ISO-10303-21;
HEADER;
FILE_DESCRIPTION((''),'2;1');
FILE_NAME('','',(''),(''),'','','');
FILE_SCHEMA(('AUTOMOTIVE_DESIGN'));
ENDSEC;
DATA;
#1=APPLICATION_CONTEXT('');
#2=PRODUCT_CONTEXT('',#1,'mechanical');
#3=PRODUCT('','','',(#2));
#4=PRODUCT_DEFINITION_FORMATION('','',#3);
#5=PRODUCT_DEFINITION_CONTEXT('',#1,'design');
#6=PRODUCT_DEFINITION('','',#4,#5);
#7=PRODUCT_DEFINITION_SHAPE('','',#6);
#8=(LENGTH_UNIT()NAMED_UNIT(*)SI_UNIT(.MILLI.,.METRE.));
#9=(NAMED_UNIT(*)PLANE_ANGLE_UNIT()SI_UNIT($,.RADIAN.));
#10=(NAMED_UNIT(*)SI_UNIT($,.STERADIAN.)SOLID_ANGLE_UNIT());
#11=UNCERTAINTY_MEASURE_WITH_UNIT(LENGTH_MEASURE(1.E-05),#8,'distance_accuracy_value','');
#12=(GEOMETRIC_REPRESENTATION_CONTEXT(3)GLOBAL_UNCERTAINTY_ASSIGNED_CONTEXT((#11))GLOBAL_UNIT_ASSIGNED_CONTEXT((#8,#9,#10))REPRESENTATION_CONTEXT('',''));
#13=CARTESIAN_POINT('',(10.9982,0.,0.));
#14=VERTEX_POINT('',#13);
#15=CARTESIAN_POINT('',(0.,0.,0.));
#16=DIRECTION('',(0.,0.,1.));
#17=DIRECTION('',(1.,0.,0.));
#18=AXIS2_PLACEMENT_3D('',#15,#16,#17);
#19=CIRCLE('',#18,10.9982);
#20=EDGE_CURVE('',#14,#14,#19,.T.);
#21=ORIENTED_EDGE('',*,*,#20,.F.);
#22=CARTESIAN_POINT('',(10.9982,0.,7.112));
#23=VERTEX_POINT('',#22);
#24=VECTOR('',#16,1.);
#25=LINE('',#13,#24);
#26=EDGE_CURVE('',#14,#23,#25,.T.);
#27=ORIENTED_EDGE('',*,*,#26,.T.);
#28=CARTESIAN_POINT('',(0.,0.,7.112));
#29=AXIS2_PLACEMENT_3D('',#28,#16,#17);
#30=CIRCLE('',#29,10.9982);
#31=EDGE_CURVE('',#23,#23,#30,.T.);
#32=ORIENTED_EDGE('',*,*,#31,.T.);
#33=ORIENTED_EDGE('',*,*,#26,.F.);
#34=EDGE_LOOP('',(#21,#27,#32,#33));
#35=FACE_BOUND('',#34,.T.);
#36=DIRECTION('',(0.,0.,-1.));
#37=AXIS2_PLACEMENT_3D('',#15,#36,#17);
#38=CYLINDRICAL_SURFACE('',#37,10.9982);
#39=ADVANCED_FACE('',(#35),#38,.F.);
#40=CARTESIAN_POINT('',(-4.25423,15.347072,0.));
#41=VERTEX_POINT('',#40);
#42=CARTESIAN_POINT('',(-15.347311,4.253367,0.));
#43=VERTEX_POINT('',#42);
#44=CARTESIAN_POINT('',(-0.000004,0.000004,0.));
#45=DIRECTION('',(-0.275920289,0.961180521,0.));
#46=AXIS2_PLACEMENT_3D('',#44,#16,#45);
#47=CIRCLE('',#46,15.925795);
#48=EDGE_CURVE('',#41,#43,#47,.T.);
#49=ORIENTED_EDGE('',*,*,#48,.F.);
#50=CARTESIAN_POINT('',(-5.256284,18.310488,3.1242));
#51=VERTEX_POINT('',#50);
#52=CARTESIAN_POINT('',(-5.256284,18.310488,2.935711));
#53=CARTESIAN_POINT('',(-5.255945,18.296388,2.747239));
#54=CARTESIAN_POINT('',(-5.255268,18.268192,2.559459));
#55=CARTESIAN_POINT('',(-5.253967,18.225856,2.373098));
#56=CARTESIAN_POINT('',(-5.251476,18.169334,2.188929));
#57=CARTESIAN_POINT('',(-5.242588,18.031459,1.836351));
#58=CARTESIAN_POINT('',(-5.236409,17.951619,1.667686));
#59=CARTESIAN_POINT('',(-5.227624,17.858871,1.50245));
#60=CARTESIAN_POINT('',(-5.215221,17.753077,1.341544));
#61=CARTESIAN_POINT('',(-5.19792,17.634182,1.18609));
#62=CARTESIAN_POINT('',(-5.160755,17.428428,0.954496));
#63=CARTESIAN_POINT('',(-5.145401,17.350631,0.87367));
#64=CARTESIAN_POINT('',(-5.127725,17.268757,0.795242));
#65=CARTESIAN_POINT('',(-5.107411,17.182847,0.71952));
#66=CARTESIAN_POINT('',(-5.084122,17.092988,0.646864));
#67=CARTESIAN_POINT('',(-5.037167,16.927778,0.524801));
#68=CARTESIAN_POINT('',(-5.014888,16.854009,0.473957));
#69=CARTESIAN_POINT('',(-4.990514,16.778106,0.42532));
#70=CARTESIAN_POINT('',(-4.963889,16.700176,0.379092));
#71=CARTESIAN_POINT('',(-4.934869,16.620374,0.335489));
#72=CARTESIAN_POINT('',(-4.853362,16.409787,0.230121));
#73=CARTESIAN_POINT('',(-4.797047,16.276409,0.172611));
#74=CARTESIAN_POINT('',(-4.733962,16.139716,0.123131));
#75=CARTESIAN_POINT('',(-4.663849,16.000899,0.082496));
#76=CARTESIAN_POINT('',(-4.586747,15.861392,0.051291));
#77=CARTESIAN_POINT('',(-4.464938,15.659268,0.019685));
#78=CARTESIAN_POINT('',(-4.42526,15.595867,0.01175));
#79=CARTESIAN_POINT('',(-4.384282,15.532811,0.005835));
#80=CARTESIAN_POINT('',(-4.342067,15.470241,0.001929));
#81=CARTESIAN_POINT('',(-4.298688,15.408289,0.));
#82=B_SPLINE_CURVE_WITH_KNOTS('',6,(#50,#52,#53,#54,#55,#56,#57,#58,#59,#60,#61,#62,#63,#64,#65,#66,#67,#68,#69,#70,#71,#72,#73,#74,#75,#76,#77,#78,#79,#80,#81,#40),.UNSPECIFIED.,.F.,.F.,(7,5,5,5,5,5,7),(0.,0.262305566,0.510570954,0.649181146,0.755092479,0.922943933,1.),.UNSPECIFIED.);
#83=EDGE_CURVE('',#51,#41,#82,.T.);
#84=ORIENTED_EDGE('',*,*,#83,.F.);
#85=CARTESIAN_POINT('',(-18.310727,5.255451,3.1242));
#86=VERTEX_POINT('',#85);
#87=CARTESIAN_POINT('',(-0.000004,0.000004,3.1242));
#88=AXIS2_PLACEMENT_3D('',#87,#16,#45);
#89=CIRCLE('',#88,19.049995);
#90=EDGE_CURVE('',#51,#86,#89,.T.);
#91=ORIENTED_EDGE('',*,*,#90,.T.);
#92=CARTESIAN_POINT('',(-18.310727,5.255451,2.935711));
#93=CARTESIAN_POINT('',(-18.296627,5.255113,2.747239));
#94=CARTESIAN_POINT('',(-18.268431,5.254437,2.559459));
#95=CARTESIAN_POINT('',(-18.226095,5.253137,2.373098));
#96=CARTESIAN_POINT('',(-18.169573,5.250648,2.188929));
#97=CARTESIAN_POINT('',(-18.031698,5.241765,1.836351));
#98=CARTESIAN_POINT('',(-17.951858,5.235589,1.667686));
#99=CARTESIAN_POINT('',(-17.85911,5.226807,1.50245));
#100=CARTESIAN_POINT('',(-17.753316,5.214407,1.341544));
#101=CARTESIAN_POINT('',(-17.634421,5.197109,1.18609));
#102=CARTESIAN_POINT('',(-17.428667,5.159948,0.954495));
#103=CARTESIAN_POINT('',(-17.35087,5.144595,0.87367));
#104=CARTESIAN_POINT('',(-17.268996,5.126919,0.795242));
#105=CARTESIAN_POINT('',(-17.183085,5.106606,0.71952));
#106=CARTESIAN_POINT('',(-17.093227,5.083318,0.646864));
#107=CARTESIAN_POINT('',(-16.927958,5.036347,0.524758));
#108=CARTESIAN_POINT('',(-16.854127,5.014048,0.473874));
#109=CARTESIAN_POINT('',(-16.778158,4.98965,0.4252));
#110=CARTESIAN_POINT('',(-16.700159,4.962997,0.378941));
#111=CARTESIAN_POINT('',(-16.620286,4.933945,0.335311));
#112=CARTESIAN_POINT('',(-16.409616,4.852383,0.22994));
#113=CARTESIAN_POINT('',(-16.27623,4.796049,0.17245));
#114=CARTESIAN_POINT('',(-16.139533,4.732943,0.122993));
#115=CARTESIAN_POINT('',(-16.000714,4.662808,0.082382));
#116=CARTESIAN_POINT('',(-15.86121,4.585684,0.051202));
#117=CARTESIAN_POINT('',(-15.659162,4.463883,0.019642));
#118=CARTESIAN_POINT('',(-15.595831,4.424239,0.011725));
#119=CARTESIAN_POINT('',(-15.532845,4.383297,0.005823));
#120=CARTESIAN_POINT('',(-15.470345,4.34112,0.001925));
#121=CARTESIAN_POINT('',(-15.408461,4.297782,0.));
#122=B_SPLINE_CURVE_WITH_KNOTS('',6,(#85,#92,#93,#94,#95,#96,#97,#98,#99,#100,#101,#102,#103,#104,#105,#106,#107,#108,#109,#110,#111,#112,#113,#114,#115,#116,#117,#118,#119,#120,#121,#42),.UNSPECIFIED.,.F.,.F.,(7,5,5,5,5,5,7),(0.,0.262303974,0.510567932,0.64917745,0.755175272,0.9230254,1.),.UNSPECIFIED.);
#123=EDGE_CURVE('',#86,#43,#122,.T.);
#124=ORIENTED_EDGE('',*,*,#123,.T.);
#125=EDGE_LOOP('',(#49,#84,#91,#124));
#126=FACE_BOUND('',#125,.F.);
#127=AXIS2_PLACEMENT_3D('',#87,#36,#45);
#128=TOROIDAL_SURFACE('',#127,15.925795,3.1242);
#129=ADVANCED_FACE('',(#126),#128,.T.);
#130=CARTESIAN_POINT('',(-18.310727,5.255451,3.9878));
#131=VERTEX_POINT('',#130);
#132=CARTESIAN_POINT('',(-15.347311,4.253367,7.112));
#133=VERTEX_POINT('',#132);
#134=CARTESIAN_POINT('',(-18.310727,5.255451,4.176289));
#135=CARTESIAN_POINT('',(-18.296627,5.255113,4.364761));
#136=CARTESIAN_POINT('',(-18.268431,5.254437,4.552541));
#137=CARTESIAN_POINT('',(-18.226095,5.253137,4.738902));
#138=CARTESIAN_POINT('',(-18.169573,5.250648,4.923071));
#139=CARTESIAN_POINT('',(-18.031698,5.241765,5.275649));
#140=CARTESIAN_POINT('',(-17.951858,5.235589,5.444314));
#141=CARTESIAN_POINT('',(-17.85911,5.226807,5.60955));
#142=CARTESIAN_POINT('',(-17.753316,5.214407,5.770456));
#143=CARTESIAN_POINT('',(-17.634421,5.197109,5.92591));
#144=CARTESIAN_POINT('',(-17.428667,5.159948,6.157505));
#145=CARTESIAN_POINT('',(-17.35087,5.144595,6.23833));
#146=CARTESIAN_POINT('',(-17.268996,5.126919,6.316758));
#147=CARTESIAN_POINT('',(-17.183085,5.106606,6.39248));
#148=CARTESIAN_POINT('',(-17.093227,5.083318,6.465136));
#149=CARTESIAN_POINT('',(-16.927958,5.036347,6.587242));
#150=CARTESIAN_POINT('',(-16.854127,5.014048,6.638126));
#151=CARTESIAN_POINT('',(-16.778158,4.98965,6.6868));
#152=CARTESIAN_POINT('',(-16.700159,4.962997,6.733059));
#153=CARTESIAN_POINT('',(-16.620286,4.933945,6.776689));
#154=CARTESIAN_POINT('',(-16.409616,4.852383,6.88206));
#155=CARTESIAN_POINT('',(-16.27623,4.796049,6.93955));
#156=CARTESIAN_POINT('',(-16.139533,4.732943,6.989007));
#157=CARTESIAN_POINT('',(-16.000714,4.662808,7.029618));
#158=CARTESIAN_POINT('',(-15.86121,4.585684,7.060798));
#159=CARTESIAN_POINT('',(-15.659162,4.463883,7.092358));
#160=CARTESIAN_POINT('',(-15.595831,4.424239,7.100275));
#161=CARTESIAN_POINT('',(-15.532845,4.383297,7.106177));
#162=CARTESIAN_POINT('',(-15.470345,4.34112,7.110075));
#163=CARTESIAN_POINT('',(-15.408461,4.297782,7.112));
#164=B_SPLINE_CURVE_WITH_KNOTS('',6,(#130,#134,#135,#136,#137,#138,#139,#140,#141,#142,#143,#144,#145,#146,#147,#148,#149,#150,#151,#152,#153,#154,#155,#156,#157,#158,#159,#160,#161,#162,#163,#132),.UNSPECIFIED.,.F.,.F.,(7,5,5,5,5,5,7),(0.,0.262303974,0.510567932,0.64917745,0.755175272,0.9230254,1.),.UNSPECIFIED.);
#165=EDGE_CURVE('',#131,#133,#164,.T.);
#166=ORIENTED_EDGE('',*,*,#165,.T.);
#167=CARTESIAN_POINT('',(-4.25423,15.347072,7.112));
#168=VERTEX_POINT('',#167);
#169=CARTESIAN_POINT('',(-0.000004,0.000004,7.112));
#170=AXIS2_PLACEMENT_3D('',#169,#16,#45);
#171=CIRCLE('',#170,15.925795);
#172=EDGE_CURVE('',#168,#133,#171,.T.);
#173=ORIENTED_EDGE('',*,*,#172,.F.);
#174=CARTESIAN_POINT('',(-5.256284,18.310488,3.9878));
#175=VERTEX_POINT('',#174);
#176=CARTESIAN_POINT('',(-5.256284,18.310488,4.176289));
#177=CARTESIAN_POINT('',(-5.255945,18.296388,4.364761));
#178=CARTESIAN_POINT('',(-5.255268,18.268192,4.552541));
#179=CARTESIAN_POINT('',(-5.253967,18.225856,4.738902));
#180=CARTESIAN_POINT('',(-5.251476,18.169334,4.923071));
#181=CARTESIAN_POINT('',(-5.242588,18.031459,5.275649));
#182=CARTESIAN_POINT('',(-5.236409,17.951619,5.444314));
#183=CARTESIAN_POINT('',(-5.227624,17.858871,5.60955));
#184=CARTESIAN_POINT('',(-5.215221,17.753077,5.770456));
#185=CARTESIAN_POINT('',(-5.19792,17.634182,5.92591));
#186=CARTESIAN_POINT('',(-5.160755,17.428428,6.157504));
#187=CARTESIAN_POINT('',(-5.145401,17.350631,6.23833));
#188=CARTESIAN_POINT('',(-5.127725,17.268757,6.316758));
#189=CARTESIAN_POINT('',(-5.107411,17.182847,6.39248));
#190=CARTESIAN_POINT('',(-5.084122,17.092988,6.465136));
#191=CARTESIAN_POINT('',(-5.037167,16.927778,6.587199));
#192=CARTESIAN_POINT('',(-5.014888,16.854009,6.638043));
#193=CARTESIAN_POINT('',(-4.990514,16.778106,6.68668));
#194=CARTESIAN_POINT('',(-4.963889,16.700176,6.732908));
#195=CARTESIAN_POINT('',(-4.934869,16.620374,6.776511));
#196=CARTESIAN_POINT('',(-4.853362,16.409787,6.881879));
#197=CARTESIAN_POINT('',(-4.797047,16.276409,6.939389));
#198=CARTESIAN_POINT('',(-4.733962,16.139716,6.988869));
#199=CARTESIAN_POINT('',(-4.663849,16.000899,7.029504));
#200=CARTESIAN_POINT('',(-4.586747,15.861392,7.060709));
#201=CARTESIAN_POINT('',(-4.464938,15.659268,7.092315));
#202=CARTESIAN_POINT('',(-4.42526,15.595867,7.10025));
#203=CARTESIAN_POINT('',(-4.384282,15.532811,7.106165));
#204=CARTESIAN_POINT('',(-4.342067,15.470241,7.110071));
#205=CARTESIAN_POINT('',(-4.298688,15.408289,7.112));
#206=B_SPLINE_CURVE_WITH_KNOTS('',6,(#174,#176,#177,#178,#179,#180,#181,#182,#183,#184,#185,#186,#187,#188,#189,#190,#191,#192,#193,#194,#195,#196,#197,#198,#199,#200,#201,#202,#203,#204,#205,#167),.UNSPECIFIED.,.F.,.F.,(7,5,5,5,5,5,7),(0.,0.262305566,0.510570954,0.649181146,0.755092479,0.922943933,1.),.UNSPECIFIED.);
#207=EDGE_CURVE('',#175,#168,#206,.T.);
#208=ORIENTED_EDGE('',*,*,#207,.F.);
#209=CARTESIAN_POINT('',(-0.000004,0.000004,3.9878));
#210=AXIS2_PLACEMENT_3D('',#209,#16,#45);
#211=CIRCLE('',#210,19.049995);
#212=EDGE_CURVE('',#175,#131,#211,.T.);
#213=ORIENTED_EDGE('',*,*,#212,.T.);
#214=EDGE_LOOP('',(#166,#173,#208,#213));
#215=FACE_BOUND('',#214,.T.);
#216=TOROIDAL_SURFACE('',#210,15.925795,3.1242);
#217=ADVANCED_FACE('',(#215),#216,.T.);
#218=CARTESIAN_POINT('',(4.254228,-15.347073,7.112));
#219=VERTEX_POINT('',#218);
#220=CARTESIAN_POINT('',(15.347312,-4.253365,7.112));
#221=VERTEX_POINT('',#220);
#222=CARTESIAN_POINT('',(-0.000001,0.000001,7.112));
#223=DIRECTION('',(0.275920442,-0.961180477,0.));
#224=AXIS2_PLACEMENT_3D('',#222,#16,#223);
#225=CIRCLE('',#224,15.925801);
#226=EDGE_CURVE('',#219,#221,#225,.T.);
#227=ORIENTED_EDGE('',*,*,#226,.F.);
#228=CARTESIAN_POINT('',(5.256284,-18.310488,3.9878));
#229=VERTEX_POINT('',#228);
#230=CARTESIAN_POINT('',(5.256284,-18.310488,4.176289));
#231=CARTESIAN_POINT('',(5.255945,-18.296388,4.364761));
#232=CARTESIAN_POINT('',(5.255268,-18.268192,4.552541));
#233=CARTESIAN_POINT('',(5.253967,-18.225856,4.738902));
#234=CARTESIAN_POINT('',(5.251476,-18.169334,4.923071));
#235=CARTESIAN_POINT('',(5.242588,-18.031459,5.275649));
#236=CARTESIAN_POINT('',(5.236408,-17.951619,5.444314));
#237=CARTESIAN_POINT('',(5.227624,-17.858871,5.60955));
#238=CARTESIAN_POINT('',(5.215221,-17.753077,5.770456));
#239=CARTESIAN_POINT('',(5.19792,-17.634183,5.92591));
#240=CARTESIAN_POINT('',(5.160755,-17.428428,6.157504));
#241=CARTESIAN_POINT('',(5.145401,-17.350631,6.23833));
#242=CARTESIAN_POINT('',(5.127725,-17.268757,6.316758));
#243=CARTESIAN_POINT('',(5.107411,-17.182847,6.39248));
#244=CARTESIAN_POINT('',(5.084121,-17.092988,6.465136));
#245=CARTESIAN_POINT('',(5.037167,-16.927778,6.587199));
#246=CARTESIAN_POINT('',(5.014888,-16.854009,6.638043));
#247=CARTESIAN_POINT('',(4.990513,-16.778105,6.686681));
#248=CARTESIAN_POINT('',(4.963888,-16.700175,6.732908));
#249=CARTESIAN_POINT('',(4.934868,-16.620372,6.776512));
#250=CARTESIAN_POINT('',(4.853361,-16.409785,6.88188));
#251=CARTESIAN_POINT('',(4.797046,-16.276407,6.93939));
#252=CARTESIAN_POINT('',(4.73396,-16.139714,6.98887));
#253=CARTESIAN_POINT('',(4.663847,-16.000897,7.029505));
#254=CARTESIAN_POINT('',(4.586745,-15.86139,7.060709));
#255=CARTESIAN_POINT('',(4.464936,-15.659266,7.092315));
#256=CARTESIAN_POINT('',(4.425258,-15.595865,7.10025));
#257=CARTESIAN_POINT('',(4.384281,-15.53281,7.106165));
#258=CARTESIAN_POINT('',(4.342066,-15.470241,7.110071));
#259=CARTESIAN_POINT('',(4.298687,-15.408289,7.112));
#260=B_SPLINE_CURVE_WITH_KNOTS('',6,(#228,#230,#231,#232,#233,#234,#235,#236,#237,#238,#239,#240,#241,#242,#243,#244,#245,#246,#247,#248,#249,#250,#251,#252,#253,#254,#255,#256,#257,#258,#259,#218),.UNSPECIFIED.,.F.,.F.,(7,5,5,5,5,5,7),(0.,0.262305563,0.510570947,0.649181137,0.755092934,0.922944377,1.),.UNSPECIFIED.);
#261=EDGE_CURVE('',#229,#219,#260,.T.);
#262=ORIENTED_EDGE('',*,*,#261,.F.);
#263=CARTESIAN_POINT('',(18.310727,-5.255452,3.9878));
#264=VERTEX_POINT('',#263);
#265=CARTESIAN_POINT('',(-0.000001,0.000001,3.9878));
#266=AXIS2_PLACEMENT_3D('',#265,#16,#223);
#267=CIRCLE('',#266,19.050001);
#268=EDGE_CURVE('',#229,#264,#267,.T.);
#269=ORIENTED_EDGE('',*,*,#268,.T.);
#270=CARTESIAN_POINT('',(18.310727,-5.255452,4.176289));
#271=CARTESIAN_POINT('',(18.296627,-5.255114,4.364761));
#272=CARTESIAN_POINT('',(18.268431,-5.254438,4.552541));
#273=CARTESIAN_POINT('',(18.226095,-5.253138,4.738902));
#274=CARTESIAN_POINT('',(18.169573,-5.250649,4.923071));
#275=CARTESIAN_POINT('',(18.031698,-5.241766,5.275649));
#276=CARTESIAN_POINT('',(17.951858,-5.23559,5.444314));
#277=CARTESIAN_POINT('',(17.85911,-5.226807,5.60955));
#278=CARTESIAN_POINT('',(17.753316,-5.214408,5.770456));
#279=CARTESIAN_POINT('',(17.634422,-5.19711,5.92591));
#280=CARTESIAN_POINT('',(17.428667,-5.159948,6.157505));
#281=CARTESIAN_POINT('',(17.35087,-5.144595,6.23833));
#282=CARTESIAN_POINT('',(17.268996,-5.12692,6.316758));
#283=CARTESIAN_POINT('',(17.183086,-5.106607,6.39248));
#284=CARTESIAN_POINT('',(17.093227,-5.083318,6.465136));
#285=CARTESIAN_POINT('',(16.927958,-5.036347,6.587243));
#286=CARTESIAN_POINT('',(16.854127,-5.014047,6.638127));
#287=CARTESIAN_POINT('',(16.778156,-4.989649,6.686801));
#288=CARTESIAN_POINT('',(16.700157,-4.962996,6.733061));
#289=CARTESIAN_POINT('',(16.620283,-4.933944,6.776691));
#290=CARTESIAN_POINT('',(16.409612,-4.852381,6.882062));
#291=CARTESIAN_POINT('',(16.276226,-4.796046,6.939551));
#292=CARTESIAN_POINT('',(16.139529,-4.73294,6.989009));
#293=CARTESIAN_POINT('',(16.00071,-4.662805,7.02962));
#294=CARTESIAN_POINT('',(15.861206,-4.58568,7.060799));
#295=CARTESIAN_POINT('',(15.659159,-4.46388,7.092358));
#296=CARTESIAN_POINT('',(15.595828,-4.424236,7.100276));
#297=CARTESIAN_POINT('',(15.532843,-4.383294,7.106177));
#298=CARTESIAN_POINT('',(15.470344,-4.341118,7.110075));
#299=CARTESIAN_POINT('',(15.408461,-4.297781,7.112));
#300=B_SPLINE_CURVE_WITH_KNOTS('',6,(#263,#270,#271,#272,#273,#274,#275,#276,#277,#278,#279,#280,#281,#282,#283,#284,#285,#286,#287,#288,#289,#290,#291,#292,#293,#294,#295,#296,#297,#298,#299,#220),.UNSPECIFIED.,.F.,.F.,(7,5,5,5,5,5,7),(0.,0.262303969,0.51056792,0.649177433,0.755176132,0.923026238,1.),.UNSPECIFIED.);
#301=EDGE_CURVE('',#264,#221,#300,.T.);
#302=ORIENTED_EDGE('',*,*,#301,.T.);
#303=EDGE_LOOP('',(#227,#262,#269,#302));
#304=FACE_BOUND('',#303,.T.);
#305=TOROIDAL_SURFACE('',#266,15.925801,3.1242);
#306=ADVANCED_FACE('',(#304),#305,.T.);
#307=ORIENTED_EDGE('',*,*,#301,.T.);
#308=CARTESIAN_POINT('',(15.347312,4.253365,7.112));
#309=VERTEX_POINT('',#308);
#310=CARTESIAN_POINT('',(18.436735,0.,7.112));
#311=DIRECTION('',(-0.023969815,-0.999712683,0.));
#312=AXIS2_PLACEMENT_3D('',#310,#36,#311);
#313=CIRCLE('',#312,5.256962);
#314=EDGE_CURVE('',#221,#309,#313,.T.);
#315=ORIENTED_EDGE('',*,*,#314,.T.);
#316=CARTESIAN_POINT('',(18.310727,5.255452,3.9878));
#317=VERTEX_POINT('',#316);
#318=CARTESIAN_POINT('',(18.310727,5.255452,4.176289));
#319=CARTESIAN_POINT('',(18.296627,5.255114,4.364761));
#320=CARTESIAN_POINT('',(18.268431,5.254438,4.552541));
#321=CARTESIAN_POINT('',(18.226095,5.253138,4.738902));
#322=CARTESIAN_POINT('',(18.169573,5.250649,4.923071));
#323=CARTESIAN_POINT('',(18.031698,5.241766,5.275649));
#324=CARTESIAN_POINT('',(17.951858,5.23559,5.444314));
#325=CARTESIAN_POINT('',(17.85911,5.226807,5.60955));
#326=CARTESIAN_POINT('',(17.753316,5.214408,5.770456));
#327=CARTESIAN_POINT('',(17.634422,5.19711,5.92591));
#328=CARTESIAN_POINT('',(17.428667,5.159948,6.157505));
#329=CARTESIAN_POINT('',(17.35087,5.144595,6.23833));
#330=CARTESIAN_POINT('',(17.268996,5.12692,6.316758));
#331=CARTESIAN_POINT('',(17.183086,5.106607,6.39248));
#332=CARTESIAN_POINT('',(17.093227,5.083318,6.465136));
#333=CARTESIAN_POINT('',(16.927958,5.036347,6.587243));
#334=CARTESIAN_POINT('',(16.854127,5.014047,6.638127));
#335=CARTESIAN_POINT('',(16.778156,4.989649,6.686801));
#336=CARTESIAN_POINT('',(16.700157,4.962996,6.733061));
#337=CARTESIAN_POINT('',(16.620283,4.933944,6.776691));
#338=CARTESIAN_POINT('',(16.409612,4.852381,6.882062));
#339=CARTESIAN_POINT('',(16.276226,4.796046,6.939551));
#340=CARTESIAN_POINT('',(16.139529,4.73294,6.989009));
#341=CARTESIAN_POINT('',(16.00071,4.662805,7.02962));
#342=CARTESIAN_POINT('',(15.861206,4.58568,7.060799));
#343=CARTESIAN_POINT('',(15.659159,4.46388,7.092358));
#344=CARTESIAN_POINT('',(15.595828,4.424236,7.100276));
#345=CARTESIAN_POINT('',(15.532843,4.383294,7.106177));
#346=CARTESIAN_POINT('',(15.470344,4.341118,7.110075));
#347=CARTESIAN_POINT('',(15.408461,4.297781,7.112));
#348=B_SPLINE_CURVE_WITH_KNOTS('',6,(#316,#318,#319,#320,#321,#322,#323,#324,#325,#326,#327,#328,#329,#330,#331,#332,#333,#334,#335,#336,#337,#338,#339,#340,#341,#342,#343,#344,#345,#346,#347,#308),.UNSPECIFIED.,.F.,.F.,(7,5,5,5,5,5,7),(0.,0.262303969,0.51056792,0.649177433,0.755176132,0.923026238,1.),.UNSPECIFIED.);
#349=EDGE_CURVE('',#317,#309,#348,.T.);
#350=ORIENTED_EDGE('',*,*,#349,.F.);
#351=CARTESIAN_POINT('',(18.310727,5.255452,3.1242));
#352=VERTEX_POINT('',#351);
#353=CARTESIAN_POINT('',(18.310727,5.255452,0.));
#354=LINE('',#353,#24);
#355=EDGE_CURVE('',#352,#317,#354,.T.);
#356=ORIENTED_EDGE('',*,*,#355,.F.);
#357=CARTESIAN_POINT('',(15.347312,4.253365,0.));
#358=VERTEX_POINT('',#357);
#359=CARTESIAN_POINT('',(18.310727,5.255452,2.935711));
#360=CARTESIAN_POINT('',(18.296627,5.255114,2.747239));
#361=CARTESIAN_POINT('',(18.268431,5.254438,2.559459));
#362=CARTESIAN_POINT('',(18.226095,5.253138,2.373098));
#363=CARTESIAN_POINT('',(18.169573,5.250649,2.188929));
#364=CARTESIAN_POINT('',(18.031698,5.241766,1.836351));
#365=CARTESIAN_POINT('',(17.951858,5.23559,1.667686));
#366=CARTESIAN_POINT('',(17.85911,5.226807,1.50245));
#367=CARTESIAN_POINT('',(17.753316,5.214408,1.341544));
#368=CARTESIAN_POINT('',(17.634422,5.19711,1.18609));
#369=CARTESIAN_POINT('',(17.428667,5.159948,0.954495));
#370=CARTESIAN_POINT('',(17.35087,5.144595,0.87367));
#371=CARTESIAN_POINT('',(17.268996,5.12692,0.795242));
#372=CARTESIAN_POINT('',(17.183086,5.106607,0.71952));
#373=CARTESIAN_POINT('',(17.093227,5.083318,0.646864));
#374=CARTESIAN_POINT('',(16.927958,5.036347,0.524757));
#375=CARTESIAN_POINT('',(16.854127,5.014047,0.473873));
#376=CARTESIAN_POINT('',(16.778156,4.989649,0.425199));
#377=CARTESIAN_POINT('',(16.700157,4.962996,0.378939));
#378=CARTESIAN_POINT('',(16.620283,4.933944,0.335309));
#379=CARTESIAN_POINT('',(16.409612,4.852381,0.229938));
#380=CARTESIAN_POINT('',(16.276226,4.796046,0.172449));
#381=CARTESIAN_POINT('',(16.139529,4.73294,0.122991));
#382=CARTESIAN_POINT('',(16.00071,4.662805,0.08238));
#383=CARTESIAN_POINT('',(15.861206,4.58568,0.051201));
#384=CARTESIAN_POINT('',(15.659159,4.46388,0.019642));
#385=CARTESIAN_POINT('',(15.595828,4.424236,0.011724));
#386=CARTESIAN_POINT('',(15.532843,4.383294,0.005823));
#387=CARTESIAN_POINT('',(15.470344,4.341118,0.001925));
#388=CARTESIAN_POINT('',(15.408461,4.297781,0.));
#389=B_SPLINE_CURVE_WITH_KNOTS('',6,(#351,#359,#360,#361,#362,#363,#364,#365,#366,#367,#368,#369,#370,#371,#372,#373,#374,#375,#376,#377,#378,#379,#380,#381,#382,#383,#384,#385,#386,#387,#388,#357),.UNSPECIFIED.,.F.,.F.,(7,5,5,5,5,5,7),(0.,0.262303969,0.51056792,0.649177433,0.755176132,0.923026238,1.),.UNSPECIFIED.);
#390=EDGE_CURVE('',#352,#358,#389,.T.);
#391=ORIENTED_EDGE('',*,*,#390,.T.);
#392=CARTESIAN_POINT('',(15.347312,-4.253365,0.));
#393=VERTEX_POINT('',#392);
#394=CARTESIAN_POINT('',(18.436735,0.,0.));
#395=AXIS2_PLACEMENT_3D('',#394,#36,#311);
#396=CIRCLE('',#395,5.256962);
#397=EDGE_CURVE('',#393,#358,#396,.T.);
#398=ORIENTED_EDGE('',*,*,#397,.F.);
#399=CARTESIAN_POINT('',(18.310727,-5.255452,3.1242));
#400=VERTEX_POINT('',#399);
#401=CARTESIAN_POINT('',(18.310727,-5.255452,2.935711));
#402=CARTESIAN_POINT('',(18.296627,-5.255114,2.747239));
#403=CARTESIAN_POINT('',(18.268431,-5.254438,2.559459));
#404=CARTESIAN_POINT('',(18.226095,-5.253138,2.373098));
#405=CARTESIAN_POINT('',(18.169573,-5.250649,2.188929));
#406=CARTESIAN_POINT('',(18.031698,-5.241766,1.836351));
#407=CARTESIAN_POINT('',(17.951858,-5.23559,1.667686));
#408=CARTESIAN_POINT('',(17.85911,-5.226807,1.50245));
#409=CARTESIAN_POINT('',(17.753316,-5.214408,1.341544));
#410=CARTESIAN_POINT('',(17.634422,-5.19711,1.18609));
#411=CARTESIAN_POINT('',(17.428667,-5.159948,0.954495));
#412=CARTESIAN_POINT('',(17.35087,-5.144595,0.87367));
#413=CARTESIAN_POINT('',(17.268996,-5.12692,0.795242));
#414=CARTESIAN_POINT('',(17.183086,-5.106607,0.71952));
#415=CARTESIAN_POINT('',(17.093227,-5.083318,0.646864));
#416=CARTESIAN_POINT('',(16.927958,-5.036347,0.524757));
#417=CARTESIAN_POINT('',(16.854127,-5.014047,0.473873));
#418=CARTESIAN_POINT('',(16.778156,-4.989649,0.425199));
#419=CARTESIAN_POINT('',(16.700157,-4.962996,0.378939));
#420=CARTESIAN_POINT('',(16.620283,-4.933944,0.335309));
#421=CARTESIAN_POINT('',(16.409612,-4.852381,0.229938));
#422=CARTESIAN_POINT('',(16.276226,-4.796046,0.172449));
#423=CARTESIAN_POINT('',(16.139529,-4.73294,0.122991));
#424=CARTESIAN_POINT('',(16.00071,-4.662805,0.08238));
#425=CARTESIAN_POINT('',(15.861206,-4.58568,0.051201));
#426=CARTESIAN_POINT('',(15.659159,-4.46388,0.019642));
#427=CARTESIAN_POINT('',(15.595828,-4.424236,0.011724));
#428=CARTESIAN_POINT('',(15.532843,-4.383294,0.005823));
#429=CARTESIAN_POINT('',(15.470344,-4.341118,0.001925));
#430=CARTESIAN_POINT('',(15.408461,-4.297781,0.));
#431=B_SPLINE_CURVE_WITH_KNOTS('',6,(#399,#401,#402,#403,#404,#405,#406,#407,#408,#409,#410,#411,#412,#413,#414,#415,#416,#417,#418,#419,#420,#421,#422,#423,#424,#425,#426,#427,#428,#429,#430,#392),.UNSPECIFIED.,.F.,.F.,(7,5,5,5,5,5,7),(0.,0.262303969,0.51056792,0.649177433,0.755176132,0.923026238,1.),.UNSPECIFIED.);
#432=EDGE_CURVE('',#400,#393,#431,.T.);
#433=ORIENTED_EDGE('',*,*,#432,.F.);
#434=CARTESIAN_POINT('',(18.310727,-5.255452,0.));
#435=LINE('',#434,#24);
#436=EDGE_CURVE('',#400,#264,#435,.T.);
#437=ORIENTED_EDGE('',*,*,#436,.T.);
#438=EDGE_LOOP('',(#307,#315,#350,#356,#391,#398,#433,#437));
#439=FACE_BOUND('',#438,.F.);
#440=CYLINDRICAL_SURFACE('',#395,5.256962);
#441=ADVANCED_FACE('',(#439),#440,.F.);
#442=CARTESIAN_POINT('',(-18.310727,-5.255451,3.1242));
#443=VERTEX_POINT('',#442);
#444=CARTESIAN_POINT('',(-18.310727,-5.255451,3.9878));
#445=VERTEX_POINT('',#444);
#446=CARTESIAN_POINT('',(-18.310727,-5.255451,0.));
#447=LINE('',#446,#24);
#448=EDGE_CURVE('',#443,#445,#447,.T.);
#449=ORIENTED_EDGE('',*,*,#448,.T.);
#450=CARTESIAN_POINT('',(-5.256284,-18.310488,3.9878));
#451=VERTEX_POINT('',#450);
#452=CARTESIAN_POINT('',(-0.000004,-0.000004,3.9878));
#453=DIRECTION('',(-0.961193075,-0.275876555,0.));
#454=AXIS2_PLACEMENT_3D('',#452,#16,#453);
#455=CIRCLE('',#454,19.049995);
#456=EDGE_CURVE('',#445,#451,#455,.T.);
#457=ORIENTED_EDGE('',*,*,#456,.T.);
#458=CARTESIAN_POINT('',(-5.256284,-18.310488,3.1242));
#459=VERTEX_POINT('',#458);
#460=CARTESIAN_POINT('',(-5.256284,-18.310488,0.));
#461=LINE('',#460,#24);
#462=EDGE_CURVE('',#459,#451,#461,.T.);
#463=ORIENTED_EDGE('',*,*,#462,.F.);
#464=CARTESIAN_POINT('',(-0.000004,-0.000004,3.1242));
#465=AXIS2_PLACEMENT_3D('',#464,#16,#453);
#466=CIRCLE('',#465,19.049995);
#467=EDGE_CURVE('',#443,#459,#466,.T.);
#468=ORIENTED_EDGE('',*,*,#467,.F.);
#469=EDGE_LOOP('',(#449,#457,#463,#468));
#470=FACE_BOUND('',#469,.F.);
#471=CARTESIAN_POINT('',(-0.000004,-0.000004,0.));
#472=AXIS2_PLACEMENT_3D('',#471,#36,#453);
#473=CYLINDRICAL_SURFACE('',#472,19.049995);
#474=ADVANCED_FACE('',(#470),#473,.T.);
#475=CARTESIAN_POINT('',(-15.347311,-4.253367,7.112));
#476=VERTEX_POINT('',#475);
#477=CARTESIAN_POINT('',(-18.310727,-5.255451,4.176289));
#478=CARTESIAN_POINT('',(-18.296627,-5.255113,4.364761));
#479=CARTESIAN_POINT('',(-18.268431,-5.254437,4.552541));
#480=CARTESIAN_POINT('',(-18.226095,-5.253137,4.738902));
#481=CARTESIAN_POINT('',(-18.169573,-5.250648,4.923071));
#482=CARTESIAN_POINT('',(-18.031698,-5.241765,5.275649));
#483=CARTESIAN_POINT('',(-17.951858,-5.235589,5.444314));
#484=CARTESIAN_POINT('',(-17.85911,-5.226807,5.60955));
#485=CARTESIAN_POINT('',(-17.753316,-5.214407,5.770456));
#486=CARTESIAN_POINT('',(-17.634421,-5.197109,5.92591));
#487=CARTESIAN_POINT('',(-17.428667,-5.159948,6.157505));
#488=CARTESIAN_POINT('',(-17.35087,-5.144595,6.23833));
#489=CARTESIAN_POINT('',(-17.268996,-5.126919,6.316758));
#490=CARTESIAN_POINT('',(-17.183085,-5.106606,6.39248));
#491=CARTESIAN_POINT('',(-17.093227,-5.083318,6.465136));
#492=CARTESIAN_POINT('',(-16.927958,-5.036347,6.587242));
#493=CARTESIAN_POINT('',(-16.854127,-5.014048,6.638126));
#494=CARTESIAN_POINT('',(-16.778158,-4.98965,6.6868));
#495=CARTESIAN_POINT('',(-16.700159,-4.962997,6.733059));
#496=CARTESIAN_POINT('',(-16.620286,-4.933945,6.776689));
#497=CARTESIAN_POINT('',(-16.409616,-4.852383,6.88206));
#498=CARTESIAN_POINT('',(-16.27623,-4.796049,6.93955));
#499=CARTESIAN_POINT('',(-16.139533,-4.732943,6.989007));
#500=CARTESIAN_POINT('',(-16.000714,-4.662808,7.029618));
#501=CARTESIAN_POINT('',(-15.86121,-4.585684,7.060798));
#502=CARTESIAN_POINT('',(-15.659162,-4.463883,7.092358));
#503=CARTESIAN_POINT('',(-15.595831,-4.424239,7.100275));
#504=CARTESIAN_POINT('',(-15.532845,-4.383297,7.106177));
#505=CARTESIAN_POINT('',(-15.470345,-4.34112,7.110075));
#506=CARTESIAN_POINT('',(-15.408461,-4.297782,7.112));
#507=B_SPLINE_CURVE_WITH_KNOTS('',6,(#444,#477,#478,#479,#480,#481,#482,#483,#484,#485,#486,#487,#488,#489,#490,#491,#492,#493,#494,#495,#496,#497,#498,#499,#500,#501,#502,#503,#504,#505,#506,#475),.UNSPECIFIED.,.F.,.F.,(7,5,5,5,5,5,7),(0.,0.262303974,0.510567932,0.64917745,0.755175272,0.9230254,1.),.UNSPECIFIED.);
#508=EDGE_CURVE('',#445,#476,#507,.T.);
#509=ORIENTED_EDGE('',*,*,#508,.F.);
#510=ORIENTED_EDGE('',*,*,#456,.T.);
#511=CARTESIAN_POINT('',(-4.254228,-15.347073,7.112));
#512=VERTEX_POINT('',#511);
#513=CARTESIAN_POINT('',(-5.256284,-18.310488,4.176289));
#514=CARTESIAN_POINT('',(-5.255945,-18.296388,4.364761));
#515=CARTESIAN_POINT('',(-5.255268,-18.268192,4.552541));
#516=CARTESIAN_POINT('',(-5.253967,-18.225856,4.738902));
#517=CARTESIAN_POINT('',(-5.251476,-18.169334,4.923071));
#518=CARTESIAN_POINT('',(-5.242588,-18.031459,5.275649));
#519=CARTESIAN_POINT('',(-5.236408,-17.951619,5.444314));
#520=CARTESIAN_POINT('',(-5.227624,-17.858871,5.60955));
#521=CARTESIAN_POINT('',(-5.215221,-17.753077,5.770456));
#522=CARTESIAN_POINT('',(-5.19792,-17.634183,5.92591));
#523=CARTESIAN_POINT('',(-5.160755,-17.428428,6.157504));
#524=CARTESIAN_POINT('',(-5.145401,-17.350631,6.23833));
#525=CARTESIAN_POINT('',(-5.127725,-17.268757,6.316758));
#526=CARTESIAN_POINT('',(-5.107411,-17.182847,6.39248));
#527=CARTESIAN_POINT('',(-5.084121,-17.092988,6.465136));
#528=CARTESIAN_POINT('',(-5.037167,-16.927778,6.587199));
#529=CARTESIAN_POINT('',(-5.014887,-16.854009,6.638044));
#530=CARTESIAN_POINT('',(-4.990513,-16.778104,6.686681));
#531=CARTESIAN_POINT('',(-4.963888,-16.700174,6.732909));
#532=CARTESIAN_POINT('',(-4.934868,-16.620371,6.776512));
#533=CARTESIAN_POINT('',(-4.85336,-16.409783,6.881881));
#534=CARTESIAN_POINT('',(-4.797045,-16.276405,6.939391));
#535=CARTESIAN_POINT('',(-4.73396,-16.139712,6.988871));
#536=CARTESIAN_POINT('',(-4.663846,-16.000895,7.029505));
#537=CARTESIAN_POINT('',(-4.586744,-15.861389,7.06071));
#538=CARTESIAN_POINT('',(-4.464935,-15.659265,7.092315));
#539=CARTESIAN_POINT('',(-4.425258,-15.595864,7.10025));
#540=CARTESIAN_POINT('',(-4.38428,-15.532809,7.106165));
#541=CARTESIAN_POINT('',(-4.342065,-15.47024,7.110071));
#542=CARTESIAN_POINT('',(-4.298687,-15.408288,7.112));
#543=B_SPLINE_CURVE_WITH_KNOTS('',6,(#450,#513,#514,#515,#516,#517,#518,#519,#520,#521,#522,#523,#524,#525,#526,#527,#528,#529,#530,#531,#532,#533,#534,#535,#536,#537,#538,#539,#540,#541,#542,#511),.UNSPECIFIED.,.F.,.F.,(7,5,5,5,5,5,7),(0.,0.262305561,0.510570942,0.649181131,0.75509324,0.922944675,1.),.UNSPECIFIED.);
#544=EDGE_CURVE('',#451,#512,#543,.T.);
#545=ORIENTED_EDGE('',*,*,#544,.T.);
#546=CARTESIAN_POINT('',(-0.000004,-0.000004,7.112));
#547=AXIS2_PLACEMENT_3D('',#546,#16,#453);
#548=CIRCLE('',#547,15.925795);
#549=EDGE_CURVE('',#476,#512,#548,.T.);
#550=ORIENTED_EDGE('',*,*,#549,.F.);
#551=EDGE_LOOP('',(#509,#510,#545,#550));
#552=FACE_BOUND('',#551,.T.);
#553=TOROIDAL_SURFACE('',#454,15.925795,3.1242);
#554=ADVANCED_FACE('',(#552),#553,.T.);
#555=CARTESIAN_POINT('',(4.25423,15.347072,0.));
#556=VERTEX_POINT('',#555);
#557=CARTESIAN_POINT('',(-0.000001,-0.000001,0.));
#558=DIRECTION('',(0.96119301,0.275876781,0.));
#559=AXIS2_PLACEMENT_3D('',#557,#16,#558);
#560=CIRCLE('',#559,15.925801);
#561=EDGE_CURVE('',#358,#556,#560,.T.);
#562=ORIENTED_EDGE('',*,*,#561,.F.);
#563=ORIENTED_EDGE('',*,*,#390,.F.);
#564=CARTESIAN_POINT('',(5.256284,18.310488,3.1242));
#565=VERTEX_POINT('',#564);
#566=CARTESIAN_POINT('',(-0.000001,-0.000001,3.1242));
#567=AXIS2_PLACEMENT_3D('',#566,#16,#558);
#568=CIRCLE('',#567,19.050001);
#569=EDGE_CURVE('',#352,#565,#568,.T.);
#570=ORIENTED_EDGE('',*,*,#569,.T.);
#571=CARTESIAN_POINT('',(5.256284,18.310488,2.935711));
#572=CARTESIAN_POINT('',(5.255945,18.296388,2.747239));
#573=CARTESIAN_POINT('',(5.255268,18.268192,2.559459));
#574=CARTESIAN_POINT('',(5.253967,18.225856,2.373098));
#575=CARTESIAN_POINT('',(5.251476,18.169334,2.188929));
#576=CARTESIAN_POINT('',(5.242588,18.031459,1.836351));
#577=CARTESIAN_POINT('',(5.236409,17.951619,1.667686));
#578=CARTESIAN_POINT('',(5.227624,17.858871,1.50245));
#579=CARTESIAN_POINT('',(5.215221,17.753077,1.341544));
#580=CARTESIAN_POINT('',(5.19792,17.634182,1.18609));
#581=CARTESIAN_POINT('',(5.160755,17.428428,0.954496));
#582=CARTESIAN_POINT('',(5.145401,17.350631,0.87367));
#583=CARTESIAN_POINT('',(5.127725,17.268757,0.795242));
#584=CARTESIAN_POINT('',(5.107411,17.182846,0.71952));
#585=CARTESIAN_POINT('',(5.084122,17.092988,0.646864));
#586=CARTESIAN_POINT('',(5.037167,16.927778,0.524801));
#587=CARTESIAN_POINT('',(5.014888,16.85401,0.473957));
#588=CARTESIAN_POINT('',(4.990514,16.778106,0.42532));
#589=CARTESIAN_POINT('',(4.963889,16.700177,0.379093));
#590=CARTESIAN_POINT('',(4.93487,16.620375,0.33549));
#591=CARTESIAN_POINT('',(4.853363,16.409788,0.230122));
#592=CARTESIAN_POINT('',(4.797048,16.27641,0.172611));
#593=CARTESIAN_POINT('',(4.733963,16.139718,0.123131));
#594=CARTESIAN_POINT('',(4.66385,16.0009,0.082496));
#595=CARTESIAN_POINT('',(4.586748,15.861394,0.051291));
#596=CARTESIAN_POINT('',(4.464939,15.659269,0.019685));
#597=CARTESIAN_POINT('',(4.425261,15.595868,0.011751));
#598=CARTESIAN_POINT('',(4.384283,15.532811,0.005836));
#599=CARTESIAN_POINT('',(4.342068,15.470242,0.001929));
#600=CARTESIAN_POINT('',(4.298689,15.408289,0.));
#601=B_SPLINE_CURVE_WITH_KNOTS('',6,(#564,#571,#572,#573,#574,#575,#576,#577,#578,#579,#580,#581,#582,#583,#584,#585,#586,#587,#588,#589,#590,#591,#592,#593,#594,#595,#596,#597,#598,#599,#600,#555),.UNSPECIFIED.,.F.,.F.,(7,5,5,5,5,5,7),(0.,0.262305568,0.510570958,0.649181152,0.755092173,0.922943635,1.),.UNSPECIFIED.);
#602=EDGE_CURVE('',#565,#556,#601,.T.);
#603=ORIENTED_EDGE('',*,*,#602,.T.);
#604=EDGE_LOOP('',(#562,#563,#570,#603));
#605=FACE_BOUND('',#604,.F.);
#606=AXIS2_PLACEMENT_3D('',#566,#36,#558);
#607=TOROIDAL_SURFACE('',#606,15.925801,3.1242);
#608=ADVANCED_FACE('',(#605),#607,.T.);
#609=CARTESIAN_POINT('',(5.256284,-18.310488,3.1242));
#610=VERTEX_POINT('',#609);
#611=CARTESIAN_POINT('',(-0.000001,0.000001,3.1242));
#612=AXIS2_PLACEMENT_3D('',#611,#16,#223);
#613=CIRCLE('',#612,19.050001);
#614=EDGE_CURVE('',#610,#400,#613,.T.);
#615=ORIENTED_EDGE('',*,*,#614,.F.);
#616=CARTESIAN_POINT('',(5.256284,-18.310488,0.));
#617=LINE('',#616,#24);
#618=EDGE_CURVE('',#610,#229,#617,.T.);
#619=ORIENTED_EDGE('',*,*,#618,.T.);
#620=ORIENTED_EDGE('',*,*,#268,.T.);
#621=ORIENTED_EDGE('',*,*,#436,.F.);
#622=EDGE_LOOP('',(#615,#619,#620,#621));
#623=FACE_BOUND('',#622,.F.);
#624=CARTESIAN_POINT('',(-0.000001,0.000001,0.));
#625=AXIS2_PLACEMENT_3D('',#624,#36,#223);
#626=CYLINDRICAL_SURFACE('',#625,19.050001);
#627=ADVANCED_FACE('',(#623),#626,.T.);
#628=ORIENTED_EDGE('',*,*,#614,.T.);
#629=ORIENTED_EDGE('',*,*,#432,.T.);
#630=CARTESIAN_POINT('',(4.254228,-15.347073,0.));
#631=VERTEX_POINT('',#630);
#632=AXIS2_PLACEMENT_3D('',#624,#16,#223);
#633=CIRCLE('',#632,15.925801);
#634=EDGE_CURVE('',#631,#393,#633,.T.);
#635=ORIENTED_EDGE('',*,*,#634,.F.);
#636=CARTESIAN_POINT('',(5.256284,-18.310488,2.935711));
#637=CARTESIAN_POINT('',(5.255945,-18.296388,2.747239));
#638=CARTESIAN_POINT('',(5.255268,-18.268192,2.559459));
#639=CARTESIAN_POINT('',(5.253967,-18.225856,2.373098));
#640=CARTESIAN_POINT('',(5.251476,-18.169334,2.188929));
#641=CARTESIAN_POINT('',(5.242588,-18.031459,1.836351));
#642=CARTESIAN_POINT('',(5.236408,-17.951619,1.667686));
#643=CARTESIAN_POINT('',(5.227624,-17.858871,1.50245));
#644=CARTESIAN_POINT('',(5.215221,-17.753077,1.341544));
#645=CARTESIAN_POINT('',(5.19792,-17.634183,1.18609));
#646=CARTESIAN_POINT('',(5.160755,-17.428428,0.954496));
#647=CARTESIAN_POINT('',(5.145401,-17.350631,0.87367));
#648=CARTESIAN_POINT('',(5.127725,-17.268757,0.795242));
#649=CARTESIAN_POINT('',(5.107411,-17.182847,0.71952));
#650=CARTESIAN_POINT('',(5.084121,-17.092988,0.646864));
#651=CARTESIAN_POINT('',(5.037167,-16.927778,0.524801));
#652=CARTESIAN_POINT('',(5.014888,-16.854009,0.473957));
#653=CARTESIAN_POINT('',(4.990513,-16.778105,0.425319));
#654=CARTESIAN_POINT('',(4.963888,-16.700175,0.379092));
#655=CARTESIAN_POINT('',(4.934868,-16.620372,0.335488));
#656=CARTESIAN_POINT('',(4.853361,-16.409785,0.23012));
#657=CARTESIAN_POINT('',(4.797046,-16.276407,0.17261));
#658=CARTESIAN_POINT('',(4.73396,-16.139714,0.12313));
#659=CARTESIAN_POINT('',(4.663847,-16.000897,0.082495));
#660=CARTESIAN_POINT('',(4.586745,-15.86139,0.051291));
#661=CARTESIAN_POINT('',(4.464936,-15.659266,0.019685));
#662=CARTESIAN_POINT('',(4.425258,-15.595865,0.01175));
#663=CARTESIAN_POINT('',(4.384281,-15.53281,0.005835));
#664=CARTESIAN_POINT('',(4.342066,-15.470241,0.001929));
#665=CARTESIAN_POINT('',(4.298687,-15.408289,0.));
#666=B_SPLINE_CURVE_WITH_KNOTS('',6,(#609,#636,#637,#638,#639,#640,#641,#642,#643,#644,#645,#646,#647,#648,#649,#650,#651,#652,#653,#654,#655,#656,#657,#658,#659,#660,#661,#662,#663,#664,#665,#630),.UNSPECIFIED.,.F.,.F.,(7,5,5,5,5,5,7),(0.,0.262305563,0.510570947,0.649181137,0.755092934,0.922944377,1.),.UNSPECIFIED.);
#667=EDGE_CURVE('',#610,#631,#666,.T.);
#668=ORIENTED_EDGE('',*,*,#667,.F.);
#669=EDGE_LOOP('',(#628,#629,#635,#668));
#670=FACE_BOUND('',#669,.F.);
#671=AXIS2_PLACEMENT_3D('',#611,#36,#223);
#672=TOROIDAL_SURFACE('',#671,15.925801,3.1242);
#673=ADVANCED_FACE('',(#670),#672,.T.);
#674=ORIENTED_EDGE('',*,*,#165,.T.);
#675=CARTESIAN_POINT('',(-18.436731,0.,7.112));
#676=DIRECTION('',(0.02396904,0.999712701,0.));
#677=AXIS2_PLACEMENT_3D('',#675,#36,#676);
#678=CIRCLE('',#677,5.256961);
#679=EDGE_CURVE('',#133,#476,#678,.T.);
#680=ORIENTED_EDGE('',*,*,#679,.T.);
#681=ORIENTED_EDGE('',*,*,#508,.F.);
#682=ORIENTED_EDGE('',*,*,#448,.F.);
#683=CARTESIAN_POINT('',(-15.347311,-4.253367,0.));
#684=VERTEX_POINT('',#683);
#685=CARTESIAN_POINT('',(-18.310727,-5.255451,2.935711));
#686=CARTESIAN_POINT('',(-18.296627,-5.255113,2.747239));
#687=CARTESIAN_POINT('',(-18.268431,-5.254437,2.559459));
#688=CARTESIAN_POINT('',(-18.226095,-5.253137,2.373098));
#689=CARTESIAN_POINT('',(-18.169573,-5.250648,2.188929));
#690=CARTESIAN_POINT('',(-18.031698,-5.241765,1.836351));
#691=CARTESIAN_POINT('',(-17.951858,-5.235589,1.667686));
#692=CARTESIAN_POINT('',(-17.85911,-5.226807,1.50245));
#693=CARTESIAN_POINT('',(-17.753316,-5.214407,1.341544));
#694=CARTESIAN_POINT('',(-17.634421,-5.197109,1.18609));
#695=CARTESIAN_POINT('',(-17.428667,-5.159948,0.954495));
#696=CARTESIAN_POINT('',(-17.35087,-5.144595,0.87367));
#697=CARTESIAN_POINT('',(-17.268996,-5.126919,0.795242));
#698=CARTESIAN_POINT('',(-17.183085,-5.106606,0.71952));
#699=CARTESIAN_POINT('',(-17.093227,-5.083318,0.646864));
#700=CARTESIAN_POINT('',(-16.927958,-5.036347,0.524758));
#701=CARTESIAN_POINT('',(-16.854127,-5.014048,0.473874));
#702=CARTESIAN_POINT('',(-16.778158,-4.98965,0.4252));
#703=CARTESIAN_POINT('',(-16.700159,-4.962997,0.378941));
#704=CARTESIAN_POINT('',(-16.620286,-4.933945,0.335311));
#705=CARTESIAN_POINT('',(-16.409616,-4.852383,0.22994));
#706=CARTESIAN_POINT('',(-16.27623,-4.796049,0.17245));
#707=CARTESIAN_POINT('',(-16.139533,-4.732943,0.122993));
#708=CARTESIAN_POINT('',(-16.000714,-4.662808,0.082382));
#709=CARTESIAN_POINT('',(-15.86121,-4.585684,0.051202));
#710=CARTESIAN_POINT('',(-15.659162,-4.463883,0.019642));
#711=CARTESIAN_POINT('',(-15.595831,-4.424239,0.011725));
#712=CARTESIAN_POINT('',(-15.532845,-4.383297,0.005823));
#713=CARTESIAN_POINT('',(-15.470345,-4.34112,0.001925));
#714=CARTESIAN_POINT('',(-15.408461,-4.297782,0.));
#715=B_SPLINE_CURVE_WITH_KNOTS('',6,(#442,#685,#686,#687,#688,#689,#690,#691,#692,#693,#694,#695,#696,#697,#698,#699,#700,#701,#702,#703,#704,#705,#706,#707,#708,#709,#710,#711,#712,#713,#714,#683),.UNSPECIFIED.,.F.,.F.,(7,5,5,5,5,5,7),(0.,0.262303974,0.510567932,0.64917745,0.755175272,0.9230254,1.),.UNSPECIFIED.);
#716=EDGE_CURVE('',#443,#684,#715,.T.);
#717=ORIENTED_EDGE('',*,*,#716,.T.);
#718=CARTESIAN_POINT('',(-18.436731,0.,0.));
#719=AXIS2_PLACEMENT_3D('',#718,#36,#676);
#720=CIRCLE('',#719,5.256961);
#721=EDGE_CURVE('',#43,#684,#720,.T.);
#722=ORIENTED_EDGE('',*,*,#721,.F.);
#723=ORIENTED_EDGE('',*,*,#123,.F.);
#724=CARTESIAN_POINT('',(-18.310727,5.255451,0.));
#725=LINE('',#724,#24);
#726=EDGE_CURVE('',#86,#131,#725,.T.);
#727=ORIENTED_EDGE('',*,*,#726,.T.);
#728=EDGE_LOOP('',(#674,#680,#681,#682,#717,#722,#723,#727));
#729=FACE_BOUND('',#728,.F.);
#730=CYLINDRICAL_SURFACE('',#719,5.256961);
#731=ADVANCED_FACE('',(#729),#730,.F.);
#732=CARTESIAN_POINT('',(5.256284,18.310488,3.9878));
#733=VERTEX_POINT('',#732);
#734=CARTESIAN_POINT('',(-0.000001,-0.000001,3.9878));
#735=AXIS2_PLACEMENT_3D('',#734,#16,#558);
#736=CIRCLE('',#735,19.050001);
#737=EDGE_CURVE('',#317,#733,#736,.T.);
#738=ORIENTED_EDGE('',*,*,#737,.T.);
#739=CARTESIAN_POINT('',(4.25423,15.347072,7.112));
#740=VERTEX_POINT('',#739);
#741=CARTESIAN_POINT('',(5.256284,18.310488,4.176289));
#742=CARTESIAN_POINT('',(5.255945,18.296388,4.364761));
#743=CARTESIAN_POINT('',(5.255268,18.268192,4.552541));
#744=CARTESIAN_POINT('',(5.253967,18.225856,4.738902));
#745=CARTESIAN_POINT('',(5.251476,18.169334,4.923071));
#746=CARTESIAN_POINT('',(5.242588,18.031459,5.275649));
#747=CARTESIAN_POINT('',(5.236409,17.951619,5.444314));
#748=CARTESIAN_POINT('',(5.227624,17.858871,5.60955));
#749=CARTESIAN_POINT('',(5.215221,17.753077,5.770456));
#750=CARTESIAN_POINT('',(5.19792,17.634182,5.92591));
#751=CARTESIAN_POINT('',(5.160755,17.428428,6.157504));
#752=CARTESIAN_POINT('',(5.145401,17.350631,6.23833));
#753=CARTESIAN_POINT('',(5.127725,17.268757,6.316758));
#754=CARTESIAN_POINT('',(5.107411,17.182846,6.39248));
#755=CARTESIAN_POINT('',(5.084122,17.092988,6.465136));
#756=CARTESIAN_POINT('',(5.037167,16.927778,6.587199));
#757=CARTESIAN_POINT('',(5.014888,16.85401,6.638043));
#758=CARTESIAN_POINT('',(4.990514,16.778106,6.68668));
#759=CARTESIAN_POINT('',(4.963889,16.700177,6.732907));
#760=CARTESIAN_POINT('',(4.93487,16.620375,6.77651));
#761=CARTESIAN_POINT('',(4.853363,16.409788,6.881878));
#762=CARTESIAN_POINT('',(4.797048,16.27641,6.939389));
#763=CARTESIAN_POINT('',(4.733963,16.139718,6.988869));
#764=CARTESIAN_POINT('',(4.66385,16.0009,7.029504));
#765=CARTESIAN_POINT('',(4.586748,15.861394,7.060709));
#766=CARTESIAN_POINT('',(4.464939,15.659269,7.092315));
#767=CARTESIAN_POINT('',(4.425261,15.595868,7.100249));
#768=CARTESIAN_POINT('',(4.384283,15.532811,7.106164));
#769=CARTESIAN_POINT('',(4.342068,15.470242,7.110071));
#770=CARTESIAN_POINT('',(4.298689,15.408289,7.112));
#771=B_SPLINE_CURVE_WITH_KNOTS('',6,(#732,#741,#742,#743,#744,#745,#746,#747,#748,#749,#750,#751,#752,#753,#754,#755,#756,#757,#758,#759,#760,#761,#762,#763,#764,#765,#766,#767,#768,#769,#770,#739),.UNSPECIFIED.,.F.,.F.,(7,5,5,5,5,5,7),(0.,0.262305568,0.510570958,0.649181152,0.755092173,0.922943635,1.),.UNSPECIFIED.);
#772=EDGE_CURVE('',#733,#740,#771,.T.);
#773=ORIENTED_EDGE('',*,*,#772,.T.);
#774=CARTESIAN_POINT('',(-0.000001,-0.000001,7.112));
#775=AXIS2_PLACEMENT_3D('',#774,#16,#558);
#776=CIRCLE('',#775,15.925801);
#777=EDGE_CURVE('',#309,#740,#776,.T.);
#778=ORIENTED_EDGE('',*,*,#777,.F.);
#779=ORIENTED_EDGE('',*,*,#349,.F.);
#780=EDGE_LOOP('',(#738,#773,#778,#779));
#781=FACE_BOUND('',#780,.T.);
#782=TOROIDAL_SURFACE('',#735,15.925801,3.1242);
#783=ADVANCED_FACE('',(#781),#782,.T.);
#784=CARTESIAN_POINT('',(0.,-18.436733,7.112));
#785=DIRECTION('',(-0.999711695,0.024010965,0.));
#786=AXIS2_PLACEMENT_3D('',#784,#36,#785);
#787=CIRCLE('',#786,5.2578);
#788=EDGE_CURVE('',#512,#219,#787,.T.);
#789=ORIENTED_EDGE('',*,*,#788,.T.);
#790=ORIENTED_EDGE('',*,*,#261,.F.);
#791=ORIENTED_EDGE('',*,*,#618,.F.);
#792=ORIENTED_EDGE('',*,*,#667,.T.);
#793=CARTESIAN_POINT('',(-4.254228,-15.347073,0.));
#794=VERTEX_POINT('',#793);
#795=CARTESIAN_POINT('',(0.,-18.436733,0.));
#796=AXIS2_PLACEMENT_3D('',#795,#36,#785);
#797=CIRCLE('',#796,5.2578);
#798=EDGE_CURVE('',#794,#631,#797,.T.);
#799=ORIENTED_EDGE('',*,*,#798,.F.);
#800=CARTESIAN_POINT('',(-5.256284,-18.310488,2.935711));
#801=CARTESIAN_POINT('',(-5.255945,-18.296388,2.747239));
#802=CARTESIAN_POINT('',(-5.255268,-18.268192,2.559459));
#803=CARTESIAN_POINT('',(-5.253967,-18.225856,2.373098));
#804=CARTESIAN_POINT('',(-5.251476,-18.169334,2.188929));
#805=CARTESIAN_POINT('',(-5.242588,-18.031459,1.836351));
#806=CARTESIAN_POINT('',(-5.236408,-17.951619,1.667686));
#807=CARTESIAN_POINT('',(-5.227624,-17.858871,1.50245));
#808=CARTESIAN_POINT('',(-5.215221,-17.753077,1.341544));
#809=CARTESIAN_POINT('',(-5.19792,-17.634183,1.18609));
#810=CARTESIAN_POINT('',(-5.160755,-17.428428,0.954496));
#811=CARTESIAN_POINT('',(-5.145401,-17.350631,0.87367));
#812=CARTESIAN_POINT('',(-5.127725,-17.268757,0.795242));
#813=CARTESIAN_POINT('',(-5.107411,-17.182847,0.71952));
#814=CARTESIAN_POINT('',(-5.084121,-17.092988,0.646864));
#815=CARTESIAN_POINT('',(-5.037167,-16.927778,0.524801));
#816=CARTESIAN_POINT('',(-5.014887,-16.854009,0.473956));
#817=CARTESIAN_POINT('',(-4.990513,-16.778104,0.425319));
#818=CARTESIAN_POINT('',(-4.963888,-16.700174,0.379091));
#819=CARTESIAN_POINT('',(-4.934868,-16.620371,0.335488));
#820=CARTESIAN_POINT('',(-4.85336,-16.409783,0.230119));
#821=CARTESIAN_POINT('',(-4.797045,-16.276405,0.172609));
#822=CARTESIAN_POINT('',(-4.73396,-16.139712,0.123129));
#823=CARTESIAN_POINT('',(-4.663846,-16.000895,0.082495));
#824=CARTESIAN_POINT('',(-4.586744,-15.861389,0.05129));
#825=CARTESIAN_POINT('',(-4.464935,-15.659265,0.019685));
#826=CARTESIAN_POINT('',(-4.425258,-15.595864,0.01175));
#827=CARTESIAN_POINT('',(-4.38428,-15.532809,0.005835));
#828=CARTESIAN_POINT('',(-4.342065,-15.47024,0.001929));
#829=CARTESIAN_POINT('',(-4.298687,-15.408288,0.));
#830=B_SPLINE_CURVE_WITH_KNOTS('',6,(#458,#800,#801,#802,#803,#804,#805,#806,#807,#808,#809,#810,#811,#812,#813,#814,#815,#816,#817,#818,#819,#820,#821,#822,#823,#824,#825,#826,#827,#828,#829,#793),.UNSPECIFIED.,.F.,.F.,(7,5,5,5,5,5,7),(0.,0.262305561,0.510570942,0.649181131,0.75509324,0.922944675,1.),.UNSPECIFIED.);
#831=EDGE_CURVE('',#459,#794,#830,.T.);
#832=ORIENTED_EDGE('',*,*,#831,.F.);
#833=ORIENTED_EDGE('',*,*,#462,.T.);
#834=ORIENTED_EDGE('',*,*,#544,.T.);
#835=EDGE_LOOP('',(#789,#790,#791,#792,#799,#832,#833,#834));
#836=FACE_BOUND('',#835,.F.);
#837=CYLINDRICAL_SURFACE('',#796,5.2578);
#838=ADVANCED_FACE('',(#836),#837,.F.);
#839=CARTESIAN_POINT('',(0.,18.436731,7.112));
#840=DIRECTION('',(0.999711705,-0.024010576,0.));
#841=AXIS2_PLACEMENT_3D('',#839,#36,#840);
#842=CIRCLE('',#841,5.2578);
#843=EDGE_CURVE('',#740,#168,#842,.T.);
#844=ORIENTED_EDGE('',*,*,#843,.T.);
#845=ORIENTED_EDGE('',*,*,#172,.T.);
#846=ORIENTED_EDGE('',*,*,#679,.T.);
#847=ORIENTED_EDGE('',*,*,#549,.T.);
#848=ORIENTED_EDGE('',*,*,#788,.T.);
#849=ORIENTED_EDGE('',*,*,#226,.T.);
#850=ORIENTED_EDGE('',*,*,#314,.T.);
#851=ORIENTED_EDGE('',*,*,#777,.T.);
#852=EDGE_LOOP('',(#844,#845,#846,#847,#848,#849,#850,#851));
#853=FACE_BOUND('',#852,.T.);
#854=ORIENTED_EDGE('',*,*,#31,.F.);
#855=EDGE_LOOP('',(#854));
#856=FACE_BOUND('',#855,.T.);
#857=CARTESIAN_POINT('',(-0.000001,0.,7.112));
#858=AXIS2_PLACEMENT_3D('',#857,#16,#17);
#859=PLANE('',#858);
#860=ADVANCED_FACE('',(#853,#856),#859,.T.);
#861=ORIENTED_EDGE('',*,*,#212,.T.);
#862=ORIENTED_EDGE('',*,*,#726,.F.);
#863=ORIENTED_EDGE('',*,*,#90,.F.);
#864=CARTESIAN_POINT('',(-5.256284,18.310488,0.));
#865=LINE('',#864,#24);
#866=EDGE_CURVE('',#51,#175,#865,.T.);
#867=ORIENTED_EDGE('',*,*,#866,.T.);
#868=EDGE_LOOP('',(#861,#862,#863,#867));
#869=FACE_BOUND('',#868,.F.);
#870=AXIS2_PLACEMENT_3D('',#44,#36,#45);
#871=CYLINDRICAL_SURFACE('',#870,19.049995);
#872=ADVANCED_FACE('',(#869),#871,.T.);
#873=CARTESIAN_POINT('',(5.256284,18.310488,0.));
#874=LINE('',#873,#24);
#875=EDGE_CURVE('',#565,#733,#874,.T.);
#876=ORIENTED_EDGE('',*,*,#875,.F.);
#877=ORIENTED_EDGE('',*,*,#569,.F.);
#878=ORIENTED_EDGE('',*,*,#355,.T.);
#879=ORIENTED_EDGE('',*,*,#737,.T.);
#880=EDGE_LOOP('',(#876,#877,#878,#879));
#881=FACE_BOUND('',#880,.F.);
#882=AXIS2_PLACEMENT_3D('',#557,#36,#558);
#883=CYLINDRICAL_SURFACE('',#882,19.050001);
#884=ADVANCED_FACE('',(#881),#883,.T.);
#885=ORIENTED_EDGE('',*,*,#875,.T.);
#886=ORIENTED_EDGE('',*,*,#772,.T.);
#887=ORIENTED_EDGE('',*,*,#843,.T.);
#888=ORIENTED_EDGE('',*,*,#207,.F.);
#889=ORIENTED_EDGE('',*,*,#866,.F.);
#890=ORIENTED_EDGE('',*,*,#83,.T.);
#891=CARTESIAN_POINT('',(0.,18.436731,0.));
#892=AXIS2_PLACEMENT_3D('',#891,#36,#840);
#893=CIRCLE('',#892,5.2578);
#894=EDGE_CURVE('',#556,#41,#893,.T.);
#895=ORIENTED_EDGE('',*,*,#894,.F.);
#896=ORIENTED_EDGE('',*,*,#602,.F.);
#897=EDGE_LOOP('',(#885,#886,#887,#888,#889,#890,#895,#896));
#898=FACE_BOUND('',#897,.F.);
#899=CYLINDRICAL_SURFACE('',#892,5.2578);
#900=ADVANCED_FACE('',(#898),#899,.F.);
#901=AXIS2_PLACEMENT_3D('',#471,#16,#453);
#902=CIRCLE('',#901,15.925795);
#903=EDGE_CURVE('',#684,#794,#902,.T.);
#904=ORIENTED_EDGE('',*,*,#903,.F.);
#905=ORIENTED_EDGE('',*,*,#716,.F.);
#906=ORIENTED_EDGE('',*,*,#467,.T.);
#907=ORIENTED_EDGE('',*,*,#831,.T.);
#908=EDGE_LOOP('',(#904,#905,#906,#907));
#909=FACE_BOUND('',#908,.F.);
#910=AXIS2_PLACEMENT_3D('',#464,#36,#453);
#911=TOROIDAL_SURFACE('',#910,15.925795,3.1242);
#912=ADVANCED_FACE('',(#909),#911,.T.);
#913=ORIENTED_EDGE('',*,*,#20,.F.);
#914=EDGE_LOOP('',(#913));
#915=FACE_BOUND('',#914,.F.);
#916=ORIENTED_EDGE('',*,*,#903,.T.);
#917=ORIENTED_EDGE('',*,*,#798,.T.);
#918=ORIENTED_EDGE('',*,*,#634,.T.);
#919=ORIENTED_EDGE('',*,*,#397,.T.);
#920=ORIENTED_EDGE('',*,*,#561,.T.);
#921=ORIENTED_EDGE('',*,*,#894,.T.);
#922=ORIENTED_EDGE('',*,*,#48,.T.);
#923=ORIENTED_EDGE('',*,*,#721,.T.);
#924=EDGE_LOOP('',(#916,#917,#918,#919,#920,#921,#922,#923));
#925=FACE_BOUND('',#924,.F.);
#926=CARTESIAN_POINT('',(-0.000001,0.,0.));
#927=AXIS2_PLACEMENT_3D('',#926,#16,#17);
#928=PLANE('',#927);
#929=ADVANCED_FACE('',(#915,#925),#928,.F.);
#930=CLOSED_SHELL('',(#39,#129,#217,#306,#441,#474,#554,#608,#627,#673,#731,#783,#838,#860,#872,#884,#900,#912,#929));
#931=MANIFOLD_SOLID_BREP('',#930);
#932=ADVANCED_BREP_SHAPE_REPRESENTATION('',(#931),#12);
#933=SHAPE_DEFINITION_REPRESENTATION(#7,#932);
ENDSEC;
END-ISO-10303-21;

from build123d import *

# Parameters (mm, degrees)
F0_R     = 10.9982
F1_DEPTH = 7.112
F2_R     = 3.1242


with BuildPart() as f1:
    # F0 (on Top) → F1 (new body)
    with BuildSketch(Plane.XY):
        with BuildLine():
            ThreePointArc((5.256284, 18.310488), (0, 13.178931), (-5.256284, 18.310488))
            ThreePointArc((-5.256284, 18.310488), (-13.470691, 13.470078), (-18.310727, 5.255451))
            ThreePointArc((-18.310727, 5.255451), (-13.17977, 0), (-18.310727, -5.255451))
            ThreePointArc((-18.310727, -5.255451), (-13.470691, -13.470078), (-5.256284, -18.310488))
            ThreePointArc((-5.256284, -18.310488), (0, -13.178933), (5.256284, -18.310488))
            ThreePointArc((5.256284, -18.310488), (13.47069, -13.470078), (18.310727, -5.255452))
            ThreePointArc((18.310727, -5.255452), (13.179773, 0), (18.310727, 5.255452))
            ThreePointArc((18.310727, 5.255452), (13.47069, 13.470078), (5.256284, 18.310488))
        make_face()
        Circle(F0_R, mode=Mode.SUBTRACT)
    extrude(amount=F1_DEPTH)

    # F2
    f2_edges = [f1.edges().sort_by_distance(p)[0] for p in [
        (-13.470691, 13.470078, 7.112),
        (-13.470691, -13.470078, 7.112),
        (13.47069, -13.470078, 7.112),
        (13.47069, 13.470078, 7.112),
        (13.47069, 13.470078, 0),
        (-13.470691, 13.470078, 0),
        (-13.470691, -13.470078, 0),
        (13.47069, -13.470078, 0),
    ]]
    fillet(f2_edges, radius=F2_R)


solid = f1.part
